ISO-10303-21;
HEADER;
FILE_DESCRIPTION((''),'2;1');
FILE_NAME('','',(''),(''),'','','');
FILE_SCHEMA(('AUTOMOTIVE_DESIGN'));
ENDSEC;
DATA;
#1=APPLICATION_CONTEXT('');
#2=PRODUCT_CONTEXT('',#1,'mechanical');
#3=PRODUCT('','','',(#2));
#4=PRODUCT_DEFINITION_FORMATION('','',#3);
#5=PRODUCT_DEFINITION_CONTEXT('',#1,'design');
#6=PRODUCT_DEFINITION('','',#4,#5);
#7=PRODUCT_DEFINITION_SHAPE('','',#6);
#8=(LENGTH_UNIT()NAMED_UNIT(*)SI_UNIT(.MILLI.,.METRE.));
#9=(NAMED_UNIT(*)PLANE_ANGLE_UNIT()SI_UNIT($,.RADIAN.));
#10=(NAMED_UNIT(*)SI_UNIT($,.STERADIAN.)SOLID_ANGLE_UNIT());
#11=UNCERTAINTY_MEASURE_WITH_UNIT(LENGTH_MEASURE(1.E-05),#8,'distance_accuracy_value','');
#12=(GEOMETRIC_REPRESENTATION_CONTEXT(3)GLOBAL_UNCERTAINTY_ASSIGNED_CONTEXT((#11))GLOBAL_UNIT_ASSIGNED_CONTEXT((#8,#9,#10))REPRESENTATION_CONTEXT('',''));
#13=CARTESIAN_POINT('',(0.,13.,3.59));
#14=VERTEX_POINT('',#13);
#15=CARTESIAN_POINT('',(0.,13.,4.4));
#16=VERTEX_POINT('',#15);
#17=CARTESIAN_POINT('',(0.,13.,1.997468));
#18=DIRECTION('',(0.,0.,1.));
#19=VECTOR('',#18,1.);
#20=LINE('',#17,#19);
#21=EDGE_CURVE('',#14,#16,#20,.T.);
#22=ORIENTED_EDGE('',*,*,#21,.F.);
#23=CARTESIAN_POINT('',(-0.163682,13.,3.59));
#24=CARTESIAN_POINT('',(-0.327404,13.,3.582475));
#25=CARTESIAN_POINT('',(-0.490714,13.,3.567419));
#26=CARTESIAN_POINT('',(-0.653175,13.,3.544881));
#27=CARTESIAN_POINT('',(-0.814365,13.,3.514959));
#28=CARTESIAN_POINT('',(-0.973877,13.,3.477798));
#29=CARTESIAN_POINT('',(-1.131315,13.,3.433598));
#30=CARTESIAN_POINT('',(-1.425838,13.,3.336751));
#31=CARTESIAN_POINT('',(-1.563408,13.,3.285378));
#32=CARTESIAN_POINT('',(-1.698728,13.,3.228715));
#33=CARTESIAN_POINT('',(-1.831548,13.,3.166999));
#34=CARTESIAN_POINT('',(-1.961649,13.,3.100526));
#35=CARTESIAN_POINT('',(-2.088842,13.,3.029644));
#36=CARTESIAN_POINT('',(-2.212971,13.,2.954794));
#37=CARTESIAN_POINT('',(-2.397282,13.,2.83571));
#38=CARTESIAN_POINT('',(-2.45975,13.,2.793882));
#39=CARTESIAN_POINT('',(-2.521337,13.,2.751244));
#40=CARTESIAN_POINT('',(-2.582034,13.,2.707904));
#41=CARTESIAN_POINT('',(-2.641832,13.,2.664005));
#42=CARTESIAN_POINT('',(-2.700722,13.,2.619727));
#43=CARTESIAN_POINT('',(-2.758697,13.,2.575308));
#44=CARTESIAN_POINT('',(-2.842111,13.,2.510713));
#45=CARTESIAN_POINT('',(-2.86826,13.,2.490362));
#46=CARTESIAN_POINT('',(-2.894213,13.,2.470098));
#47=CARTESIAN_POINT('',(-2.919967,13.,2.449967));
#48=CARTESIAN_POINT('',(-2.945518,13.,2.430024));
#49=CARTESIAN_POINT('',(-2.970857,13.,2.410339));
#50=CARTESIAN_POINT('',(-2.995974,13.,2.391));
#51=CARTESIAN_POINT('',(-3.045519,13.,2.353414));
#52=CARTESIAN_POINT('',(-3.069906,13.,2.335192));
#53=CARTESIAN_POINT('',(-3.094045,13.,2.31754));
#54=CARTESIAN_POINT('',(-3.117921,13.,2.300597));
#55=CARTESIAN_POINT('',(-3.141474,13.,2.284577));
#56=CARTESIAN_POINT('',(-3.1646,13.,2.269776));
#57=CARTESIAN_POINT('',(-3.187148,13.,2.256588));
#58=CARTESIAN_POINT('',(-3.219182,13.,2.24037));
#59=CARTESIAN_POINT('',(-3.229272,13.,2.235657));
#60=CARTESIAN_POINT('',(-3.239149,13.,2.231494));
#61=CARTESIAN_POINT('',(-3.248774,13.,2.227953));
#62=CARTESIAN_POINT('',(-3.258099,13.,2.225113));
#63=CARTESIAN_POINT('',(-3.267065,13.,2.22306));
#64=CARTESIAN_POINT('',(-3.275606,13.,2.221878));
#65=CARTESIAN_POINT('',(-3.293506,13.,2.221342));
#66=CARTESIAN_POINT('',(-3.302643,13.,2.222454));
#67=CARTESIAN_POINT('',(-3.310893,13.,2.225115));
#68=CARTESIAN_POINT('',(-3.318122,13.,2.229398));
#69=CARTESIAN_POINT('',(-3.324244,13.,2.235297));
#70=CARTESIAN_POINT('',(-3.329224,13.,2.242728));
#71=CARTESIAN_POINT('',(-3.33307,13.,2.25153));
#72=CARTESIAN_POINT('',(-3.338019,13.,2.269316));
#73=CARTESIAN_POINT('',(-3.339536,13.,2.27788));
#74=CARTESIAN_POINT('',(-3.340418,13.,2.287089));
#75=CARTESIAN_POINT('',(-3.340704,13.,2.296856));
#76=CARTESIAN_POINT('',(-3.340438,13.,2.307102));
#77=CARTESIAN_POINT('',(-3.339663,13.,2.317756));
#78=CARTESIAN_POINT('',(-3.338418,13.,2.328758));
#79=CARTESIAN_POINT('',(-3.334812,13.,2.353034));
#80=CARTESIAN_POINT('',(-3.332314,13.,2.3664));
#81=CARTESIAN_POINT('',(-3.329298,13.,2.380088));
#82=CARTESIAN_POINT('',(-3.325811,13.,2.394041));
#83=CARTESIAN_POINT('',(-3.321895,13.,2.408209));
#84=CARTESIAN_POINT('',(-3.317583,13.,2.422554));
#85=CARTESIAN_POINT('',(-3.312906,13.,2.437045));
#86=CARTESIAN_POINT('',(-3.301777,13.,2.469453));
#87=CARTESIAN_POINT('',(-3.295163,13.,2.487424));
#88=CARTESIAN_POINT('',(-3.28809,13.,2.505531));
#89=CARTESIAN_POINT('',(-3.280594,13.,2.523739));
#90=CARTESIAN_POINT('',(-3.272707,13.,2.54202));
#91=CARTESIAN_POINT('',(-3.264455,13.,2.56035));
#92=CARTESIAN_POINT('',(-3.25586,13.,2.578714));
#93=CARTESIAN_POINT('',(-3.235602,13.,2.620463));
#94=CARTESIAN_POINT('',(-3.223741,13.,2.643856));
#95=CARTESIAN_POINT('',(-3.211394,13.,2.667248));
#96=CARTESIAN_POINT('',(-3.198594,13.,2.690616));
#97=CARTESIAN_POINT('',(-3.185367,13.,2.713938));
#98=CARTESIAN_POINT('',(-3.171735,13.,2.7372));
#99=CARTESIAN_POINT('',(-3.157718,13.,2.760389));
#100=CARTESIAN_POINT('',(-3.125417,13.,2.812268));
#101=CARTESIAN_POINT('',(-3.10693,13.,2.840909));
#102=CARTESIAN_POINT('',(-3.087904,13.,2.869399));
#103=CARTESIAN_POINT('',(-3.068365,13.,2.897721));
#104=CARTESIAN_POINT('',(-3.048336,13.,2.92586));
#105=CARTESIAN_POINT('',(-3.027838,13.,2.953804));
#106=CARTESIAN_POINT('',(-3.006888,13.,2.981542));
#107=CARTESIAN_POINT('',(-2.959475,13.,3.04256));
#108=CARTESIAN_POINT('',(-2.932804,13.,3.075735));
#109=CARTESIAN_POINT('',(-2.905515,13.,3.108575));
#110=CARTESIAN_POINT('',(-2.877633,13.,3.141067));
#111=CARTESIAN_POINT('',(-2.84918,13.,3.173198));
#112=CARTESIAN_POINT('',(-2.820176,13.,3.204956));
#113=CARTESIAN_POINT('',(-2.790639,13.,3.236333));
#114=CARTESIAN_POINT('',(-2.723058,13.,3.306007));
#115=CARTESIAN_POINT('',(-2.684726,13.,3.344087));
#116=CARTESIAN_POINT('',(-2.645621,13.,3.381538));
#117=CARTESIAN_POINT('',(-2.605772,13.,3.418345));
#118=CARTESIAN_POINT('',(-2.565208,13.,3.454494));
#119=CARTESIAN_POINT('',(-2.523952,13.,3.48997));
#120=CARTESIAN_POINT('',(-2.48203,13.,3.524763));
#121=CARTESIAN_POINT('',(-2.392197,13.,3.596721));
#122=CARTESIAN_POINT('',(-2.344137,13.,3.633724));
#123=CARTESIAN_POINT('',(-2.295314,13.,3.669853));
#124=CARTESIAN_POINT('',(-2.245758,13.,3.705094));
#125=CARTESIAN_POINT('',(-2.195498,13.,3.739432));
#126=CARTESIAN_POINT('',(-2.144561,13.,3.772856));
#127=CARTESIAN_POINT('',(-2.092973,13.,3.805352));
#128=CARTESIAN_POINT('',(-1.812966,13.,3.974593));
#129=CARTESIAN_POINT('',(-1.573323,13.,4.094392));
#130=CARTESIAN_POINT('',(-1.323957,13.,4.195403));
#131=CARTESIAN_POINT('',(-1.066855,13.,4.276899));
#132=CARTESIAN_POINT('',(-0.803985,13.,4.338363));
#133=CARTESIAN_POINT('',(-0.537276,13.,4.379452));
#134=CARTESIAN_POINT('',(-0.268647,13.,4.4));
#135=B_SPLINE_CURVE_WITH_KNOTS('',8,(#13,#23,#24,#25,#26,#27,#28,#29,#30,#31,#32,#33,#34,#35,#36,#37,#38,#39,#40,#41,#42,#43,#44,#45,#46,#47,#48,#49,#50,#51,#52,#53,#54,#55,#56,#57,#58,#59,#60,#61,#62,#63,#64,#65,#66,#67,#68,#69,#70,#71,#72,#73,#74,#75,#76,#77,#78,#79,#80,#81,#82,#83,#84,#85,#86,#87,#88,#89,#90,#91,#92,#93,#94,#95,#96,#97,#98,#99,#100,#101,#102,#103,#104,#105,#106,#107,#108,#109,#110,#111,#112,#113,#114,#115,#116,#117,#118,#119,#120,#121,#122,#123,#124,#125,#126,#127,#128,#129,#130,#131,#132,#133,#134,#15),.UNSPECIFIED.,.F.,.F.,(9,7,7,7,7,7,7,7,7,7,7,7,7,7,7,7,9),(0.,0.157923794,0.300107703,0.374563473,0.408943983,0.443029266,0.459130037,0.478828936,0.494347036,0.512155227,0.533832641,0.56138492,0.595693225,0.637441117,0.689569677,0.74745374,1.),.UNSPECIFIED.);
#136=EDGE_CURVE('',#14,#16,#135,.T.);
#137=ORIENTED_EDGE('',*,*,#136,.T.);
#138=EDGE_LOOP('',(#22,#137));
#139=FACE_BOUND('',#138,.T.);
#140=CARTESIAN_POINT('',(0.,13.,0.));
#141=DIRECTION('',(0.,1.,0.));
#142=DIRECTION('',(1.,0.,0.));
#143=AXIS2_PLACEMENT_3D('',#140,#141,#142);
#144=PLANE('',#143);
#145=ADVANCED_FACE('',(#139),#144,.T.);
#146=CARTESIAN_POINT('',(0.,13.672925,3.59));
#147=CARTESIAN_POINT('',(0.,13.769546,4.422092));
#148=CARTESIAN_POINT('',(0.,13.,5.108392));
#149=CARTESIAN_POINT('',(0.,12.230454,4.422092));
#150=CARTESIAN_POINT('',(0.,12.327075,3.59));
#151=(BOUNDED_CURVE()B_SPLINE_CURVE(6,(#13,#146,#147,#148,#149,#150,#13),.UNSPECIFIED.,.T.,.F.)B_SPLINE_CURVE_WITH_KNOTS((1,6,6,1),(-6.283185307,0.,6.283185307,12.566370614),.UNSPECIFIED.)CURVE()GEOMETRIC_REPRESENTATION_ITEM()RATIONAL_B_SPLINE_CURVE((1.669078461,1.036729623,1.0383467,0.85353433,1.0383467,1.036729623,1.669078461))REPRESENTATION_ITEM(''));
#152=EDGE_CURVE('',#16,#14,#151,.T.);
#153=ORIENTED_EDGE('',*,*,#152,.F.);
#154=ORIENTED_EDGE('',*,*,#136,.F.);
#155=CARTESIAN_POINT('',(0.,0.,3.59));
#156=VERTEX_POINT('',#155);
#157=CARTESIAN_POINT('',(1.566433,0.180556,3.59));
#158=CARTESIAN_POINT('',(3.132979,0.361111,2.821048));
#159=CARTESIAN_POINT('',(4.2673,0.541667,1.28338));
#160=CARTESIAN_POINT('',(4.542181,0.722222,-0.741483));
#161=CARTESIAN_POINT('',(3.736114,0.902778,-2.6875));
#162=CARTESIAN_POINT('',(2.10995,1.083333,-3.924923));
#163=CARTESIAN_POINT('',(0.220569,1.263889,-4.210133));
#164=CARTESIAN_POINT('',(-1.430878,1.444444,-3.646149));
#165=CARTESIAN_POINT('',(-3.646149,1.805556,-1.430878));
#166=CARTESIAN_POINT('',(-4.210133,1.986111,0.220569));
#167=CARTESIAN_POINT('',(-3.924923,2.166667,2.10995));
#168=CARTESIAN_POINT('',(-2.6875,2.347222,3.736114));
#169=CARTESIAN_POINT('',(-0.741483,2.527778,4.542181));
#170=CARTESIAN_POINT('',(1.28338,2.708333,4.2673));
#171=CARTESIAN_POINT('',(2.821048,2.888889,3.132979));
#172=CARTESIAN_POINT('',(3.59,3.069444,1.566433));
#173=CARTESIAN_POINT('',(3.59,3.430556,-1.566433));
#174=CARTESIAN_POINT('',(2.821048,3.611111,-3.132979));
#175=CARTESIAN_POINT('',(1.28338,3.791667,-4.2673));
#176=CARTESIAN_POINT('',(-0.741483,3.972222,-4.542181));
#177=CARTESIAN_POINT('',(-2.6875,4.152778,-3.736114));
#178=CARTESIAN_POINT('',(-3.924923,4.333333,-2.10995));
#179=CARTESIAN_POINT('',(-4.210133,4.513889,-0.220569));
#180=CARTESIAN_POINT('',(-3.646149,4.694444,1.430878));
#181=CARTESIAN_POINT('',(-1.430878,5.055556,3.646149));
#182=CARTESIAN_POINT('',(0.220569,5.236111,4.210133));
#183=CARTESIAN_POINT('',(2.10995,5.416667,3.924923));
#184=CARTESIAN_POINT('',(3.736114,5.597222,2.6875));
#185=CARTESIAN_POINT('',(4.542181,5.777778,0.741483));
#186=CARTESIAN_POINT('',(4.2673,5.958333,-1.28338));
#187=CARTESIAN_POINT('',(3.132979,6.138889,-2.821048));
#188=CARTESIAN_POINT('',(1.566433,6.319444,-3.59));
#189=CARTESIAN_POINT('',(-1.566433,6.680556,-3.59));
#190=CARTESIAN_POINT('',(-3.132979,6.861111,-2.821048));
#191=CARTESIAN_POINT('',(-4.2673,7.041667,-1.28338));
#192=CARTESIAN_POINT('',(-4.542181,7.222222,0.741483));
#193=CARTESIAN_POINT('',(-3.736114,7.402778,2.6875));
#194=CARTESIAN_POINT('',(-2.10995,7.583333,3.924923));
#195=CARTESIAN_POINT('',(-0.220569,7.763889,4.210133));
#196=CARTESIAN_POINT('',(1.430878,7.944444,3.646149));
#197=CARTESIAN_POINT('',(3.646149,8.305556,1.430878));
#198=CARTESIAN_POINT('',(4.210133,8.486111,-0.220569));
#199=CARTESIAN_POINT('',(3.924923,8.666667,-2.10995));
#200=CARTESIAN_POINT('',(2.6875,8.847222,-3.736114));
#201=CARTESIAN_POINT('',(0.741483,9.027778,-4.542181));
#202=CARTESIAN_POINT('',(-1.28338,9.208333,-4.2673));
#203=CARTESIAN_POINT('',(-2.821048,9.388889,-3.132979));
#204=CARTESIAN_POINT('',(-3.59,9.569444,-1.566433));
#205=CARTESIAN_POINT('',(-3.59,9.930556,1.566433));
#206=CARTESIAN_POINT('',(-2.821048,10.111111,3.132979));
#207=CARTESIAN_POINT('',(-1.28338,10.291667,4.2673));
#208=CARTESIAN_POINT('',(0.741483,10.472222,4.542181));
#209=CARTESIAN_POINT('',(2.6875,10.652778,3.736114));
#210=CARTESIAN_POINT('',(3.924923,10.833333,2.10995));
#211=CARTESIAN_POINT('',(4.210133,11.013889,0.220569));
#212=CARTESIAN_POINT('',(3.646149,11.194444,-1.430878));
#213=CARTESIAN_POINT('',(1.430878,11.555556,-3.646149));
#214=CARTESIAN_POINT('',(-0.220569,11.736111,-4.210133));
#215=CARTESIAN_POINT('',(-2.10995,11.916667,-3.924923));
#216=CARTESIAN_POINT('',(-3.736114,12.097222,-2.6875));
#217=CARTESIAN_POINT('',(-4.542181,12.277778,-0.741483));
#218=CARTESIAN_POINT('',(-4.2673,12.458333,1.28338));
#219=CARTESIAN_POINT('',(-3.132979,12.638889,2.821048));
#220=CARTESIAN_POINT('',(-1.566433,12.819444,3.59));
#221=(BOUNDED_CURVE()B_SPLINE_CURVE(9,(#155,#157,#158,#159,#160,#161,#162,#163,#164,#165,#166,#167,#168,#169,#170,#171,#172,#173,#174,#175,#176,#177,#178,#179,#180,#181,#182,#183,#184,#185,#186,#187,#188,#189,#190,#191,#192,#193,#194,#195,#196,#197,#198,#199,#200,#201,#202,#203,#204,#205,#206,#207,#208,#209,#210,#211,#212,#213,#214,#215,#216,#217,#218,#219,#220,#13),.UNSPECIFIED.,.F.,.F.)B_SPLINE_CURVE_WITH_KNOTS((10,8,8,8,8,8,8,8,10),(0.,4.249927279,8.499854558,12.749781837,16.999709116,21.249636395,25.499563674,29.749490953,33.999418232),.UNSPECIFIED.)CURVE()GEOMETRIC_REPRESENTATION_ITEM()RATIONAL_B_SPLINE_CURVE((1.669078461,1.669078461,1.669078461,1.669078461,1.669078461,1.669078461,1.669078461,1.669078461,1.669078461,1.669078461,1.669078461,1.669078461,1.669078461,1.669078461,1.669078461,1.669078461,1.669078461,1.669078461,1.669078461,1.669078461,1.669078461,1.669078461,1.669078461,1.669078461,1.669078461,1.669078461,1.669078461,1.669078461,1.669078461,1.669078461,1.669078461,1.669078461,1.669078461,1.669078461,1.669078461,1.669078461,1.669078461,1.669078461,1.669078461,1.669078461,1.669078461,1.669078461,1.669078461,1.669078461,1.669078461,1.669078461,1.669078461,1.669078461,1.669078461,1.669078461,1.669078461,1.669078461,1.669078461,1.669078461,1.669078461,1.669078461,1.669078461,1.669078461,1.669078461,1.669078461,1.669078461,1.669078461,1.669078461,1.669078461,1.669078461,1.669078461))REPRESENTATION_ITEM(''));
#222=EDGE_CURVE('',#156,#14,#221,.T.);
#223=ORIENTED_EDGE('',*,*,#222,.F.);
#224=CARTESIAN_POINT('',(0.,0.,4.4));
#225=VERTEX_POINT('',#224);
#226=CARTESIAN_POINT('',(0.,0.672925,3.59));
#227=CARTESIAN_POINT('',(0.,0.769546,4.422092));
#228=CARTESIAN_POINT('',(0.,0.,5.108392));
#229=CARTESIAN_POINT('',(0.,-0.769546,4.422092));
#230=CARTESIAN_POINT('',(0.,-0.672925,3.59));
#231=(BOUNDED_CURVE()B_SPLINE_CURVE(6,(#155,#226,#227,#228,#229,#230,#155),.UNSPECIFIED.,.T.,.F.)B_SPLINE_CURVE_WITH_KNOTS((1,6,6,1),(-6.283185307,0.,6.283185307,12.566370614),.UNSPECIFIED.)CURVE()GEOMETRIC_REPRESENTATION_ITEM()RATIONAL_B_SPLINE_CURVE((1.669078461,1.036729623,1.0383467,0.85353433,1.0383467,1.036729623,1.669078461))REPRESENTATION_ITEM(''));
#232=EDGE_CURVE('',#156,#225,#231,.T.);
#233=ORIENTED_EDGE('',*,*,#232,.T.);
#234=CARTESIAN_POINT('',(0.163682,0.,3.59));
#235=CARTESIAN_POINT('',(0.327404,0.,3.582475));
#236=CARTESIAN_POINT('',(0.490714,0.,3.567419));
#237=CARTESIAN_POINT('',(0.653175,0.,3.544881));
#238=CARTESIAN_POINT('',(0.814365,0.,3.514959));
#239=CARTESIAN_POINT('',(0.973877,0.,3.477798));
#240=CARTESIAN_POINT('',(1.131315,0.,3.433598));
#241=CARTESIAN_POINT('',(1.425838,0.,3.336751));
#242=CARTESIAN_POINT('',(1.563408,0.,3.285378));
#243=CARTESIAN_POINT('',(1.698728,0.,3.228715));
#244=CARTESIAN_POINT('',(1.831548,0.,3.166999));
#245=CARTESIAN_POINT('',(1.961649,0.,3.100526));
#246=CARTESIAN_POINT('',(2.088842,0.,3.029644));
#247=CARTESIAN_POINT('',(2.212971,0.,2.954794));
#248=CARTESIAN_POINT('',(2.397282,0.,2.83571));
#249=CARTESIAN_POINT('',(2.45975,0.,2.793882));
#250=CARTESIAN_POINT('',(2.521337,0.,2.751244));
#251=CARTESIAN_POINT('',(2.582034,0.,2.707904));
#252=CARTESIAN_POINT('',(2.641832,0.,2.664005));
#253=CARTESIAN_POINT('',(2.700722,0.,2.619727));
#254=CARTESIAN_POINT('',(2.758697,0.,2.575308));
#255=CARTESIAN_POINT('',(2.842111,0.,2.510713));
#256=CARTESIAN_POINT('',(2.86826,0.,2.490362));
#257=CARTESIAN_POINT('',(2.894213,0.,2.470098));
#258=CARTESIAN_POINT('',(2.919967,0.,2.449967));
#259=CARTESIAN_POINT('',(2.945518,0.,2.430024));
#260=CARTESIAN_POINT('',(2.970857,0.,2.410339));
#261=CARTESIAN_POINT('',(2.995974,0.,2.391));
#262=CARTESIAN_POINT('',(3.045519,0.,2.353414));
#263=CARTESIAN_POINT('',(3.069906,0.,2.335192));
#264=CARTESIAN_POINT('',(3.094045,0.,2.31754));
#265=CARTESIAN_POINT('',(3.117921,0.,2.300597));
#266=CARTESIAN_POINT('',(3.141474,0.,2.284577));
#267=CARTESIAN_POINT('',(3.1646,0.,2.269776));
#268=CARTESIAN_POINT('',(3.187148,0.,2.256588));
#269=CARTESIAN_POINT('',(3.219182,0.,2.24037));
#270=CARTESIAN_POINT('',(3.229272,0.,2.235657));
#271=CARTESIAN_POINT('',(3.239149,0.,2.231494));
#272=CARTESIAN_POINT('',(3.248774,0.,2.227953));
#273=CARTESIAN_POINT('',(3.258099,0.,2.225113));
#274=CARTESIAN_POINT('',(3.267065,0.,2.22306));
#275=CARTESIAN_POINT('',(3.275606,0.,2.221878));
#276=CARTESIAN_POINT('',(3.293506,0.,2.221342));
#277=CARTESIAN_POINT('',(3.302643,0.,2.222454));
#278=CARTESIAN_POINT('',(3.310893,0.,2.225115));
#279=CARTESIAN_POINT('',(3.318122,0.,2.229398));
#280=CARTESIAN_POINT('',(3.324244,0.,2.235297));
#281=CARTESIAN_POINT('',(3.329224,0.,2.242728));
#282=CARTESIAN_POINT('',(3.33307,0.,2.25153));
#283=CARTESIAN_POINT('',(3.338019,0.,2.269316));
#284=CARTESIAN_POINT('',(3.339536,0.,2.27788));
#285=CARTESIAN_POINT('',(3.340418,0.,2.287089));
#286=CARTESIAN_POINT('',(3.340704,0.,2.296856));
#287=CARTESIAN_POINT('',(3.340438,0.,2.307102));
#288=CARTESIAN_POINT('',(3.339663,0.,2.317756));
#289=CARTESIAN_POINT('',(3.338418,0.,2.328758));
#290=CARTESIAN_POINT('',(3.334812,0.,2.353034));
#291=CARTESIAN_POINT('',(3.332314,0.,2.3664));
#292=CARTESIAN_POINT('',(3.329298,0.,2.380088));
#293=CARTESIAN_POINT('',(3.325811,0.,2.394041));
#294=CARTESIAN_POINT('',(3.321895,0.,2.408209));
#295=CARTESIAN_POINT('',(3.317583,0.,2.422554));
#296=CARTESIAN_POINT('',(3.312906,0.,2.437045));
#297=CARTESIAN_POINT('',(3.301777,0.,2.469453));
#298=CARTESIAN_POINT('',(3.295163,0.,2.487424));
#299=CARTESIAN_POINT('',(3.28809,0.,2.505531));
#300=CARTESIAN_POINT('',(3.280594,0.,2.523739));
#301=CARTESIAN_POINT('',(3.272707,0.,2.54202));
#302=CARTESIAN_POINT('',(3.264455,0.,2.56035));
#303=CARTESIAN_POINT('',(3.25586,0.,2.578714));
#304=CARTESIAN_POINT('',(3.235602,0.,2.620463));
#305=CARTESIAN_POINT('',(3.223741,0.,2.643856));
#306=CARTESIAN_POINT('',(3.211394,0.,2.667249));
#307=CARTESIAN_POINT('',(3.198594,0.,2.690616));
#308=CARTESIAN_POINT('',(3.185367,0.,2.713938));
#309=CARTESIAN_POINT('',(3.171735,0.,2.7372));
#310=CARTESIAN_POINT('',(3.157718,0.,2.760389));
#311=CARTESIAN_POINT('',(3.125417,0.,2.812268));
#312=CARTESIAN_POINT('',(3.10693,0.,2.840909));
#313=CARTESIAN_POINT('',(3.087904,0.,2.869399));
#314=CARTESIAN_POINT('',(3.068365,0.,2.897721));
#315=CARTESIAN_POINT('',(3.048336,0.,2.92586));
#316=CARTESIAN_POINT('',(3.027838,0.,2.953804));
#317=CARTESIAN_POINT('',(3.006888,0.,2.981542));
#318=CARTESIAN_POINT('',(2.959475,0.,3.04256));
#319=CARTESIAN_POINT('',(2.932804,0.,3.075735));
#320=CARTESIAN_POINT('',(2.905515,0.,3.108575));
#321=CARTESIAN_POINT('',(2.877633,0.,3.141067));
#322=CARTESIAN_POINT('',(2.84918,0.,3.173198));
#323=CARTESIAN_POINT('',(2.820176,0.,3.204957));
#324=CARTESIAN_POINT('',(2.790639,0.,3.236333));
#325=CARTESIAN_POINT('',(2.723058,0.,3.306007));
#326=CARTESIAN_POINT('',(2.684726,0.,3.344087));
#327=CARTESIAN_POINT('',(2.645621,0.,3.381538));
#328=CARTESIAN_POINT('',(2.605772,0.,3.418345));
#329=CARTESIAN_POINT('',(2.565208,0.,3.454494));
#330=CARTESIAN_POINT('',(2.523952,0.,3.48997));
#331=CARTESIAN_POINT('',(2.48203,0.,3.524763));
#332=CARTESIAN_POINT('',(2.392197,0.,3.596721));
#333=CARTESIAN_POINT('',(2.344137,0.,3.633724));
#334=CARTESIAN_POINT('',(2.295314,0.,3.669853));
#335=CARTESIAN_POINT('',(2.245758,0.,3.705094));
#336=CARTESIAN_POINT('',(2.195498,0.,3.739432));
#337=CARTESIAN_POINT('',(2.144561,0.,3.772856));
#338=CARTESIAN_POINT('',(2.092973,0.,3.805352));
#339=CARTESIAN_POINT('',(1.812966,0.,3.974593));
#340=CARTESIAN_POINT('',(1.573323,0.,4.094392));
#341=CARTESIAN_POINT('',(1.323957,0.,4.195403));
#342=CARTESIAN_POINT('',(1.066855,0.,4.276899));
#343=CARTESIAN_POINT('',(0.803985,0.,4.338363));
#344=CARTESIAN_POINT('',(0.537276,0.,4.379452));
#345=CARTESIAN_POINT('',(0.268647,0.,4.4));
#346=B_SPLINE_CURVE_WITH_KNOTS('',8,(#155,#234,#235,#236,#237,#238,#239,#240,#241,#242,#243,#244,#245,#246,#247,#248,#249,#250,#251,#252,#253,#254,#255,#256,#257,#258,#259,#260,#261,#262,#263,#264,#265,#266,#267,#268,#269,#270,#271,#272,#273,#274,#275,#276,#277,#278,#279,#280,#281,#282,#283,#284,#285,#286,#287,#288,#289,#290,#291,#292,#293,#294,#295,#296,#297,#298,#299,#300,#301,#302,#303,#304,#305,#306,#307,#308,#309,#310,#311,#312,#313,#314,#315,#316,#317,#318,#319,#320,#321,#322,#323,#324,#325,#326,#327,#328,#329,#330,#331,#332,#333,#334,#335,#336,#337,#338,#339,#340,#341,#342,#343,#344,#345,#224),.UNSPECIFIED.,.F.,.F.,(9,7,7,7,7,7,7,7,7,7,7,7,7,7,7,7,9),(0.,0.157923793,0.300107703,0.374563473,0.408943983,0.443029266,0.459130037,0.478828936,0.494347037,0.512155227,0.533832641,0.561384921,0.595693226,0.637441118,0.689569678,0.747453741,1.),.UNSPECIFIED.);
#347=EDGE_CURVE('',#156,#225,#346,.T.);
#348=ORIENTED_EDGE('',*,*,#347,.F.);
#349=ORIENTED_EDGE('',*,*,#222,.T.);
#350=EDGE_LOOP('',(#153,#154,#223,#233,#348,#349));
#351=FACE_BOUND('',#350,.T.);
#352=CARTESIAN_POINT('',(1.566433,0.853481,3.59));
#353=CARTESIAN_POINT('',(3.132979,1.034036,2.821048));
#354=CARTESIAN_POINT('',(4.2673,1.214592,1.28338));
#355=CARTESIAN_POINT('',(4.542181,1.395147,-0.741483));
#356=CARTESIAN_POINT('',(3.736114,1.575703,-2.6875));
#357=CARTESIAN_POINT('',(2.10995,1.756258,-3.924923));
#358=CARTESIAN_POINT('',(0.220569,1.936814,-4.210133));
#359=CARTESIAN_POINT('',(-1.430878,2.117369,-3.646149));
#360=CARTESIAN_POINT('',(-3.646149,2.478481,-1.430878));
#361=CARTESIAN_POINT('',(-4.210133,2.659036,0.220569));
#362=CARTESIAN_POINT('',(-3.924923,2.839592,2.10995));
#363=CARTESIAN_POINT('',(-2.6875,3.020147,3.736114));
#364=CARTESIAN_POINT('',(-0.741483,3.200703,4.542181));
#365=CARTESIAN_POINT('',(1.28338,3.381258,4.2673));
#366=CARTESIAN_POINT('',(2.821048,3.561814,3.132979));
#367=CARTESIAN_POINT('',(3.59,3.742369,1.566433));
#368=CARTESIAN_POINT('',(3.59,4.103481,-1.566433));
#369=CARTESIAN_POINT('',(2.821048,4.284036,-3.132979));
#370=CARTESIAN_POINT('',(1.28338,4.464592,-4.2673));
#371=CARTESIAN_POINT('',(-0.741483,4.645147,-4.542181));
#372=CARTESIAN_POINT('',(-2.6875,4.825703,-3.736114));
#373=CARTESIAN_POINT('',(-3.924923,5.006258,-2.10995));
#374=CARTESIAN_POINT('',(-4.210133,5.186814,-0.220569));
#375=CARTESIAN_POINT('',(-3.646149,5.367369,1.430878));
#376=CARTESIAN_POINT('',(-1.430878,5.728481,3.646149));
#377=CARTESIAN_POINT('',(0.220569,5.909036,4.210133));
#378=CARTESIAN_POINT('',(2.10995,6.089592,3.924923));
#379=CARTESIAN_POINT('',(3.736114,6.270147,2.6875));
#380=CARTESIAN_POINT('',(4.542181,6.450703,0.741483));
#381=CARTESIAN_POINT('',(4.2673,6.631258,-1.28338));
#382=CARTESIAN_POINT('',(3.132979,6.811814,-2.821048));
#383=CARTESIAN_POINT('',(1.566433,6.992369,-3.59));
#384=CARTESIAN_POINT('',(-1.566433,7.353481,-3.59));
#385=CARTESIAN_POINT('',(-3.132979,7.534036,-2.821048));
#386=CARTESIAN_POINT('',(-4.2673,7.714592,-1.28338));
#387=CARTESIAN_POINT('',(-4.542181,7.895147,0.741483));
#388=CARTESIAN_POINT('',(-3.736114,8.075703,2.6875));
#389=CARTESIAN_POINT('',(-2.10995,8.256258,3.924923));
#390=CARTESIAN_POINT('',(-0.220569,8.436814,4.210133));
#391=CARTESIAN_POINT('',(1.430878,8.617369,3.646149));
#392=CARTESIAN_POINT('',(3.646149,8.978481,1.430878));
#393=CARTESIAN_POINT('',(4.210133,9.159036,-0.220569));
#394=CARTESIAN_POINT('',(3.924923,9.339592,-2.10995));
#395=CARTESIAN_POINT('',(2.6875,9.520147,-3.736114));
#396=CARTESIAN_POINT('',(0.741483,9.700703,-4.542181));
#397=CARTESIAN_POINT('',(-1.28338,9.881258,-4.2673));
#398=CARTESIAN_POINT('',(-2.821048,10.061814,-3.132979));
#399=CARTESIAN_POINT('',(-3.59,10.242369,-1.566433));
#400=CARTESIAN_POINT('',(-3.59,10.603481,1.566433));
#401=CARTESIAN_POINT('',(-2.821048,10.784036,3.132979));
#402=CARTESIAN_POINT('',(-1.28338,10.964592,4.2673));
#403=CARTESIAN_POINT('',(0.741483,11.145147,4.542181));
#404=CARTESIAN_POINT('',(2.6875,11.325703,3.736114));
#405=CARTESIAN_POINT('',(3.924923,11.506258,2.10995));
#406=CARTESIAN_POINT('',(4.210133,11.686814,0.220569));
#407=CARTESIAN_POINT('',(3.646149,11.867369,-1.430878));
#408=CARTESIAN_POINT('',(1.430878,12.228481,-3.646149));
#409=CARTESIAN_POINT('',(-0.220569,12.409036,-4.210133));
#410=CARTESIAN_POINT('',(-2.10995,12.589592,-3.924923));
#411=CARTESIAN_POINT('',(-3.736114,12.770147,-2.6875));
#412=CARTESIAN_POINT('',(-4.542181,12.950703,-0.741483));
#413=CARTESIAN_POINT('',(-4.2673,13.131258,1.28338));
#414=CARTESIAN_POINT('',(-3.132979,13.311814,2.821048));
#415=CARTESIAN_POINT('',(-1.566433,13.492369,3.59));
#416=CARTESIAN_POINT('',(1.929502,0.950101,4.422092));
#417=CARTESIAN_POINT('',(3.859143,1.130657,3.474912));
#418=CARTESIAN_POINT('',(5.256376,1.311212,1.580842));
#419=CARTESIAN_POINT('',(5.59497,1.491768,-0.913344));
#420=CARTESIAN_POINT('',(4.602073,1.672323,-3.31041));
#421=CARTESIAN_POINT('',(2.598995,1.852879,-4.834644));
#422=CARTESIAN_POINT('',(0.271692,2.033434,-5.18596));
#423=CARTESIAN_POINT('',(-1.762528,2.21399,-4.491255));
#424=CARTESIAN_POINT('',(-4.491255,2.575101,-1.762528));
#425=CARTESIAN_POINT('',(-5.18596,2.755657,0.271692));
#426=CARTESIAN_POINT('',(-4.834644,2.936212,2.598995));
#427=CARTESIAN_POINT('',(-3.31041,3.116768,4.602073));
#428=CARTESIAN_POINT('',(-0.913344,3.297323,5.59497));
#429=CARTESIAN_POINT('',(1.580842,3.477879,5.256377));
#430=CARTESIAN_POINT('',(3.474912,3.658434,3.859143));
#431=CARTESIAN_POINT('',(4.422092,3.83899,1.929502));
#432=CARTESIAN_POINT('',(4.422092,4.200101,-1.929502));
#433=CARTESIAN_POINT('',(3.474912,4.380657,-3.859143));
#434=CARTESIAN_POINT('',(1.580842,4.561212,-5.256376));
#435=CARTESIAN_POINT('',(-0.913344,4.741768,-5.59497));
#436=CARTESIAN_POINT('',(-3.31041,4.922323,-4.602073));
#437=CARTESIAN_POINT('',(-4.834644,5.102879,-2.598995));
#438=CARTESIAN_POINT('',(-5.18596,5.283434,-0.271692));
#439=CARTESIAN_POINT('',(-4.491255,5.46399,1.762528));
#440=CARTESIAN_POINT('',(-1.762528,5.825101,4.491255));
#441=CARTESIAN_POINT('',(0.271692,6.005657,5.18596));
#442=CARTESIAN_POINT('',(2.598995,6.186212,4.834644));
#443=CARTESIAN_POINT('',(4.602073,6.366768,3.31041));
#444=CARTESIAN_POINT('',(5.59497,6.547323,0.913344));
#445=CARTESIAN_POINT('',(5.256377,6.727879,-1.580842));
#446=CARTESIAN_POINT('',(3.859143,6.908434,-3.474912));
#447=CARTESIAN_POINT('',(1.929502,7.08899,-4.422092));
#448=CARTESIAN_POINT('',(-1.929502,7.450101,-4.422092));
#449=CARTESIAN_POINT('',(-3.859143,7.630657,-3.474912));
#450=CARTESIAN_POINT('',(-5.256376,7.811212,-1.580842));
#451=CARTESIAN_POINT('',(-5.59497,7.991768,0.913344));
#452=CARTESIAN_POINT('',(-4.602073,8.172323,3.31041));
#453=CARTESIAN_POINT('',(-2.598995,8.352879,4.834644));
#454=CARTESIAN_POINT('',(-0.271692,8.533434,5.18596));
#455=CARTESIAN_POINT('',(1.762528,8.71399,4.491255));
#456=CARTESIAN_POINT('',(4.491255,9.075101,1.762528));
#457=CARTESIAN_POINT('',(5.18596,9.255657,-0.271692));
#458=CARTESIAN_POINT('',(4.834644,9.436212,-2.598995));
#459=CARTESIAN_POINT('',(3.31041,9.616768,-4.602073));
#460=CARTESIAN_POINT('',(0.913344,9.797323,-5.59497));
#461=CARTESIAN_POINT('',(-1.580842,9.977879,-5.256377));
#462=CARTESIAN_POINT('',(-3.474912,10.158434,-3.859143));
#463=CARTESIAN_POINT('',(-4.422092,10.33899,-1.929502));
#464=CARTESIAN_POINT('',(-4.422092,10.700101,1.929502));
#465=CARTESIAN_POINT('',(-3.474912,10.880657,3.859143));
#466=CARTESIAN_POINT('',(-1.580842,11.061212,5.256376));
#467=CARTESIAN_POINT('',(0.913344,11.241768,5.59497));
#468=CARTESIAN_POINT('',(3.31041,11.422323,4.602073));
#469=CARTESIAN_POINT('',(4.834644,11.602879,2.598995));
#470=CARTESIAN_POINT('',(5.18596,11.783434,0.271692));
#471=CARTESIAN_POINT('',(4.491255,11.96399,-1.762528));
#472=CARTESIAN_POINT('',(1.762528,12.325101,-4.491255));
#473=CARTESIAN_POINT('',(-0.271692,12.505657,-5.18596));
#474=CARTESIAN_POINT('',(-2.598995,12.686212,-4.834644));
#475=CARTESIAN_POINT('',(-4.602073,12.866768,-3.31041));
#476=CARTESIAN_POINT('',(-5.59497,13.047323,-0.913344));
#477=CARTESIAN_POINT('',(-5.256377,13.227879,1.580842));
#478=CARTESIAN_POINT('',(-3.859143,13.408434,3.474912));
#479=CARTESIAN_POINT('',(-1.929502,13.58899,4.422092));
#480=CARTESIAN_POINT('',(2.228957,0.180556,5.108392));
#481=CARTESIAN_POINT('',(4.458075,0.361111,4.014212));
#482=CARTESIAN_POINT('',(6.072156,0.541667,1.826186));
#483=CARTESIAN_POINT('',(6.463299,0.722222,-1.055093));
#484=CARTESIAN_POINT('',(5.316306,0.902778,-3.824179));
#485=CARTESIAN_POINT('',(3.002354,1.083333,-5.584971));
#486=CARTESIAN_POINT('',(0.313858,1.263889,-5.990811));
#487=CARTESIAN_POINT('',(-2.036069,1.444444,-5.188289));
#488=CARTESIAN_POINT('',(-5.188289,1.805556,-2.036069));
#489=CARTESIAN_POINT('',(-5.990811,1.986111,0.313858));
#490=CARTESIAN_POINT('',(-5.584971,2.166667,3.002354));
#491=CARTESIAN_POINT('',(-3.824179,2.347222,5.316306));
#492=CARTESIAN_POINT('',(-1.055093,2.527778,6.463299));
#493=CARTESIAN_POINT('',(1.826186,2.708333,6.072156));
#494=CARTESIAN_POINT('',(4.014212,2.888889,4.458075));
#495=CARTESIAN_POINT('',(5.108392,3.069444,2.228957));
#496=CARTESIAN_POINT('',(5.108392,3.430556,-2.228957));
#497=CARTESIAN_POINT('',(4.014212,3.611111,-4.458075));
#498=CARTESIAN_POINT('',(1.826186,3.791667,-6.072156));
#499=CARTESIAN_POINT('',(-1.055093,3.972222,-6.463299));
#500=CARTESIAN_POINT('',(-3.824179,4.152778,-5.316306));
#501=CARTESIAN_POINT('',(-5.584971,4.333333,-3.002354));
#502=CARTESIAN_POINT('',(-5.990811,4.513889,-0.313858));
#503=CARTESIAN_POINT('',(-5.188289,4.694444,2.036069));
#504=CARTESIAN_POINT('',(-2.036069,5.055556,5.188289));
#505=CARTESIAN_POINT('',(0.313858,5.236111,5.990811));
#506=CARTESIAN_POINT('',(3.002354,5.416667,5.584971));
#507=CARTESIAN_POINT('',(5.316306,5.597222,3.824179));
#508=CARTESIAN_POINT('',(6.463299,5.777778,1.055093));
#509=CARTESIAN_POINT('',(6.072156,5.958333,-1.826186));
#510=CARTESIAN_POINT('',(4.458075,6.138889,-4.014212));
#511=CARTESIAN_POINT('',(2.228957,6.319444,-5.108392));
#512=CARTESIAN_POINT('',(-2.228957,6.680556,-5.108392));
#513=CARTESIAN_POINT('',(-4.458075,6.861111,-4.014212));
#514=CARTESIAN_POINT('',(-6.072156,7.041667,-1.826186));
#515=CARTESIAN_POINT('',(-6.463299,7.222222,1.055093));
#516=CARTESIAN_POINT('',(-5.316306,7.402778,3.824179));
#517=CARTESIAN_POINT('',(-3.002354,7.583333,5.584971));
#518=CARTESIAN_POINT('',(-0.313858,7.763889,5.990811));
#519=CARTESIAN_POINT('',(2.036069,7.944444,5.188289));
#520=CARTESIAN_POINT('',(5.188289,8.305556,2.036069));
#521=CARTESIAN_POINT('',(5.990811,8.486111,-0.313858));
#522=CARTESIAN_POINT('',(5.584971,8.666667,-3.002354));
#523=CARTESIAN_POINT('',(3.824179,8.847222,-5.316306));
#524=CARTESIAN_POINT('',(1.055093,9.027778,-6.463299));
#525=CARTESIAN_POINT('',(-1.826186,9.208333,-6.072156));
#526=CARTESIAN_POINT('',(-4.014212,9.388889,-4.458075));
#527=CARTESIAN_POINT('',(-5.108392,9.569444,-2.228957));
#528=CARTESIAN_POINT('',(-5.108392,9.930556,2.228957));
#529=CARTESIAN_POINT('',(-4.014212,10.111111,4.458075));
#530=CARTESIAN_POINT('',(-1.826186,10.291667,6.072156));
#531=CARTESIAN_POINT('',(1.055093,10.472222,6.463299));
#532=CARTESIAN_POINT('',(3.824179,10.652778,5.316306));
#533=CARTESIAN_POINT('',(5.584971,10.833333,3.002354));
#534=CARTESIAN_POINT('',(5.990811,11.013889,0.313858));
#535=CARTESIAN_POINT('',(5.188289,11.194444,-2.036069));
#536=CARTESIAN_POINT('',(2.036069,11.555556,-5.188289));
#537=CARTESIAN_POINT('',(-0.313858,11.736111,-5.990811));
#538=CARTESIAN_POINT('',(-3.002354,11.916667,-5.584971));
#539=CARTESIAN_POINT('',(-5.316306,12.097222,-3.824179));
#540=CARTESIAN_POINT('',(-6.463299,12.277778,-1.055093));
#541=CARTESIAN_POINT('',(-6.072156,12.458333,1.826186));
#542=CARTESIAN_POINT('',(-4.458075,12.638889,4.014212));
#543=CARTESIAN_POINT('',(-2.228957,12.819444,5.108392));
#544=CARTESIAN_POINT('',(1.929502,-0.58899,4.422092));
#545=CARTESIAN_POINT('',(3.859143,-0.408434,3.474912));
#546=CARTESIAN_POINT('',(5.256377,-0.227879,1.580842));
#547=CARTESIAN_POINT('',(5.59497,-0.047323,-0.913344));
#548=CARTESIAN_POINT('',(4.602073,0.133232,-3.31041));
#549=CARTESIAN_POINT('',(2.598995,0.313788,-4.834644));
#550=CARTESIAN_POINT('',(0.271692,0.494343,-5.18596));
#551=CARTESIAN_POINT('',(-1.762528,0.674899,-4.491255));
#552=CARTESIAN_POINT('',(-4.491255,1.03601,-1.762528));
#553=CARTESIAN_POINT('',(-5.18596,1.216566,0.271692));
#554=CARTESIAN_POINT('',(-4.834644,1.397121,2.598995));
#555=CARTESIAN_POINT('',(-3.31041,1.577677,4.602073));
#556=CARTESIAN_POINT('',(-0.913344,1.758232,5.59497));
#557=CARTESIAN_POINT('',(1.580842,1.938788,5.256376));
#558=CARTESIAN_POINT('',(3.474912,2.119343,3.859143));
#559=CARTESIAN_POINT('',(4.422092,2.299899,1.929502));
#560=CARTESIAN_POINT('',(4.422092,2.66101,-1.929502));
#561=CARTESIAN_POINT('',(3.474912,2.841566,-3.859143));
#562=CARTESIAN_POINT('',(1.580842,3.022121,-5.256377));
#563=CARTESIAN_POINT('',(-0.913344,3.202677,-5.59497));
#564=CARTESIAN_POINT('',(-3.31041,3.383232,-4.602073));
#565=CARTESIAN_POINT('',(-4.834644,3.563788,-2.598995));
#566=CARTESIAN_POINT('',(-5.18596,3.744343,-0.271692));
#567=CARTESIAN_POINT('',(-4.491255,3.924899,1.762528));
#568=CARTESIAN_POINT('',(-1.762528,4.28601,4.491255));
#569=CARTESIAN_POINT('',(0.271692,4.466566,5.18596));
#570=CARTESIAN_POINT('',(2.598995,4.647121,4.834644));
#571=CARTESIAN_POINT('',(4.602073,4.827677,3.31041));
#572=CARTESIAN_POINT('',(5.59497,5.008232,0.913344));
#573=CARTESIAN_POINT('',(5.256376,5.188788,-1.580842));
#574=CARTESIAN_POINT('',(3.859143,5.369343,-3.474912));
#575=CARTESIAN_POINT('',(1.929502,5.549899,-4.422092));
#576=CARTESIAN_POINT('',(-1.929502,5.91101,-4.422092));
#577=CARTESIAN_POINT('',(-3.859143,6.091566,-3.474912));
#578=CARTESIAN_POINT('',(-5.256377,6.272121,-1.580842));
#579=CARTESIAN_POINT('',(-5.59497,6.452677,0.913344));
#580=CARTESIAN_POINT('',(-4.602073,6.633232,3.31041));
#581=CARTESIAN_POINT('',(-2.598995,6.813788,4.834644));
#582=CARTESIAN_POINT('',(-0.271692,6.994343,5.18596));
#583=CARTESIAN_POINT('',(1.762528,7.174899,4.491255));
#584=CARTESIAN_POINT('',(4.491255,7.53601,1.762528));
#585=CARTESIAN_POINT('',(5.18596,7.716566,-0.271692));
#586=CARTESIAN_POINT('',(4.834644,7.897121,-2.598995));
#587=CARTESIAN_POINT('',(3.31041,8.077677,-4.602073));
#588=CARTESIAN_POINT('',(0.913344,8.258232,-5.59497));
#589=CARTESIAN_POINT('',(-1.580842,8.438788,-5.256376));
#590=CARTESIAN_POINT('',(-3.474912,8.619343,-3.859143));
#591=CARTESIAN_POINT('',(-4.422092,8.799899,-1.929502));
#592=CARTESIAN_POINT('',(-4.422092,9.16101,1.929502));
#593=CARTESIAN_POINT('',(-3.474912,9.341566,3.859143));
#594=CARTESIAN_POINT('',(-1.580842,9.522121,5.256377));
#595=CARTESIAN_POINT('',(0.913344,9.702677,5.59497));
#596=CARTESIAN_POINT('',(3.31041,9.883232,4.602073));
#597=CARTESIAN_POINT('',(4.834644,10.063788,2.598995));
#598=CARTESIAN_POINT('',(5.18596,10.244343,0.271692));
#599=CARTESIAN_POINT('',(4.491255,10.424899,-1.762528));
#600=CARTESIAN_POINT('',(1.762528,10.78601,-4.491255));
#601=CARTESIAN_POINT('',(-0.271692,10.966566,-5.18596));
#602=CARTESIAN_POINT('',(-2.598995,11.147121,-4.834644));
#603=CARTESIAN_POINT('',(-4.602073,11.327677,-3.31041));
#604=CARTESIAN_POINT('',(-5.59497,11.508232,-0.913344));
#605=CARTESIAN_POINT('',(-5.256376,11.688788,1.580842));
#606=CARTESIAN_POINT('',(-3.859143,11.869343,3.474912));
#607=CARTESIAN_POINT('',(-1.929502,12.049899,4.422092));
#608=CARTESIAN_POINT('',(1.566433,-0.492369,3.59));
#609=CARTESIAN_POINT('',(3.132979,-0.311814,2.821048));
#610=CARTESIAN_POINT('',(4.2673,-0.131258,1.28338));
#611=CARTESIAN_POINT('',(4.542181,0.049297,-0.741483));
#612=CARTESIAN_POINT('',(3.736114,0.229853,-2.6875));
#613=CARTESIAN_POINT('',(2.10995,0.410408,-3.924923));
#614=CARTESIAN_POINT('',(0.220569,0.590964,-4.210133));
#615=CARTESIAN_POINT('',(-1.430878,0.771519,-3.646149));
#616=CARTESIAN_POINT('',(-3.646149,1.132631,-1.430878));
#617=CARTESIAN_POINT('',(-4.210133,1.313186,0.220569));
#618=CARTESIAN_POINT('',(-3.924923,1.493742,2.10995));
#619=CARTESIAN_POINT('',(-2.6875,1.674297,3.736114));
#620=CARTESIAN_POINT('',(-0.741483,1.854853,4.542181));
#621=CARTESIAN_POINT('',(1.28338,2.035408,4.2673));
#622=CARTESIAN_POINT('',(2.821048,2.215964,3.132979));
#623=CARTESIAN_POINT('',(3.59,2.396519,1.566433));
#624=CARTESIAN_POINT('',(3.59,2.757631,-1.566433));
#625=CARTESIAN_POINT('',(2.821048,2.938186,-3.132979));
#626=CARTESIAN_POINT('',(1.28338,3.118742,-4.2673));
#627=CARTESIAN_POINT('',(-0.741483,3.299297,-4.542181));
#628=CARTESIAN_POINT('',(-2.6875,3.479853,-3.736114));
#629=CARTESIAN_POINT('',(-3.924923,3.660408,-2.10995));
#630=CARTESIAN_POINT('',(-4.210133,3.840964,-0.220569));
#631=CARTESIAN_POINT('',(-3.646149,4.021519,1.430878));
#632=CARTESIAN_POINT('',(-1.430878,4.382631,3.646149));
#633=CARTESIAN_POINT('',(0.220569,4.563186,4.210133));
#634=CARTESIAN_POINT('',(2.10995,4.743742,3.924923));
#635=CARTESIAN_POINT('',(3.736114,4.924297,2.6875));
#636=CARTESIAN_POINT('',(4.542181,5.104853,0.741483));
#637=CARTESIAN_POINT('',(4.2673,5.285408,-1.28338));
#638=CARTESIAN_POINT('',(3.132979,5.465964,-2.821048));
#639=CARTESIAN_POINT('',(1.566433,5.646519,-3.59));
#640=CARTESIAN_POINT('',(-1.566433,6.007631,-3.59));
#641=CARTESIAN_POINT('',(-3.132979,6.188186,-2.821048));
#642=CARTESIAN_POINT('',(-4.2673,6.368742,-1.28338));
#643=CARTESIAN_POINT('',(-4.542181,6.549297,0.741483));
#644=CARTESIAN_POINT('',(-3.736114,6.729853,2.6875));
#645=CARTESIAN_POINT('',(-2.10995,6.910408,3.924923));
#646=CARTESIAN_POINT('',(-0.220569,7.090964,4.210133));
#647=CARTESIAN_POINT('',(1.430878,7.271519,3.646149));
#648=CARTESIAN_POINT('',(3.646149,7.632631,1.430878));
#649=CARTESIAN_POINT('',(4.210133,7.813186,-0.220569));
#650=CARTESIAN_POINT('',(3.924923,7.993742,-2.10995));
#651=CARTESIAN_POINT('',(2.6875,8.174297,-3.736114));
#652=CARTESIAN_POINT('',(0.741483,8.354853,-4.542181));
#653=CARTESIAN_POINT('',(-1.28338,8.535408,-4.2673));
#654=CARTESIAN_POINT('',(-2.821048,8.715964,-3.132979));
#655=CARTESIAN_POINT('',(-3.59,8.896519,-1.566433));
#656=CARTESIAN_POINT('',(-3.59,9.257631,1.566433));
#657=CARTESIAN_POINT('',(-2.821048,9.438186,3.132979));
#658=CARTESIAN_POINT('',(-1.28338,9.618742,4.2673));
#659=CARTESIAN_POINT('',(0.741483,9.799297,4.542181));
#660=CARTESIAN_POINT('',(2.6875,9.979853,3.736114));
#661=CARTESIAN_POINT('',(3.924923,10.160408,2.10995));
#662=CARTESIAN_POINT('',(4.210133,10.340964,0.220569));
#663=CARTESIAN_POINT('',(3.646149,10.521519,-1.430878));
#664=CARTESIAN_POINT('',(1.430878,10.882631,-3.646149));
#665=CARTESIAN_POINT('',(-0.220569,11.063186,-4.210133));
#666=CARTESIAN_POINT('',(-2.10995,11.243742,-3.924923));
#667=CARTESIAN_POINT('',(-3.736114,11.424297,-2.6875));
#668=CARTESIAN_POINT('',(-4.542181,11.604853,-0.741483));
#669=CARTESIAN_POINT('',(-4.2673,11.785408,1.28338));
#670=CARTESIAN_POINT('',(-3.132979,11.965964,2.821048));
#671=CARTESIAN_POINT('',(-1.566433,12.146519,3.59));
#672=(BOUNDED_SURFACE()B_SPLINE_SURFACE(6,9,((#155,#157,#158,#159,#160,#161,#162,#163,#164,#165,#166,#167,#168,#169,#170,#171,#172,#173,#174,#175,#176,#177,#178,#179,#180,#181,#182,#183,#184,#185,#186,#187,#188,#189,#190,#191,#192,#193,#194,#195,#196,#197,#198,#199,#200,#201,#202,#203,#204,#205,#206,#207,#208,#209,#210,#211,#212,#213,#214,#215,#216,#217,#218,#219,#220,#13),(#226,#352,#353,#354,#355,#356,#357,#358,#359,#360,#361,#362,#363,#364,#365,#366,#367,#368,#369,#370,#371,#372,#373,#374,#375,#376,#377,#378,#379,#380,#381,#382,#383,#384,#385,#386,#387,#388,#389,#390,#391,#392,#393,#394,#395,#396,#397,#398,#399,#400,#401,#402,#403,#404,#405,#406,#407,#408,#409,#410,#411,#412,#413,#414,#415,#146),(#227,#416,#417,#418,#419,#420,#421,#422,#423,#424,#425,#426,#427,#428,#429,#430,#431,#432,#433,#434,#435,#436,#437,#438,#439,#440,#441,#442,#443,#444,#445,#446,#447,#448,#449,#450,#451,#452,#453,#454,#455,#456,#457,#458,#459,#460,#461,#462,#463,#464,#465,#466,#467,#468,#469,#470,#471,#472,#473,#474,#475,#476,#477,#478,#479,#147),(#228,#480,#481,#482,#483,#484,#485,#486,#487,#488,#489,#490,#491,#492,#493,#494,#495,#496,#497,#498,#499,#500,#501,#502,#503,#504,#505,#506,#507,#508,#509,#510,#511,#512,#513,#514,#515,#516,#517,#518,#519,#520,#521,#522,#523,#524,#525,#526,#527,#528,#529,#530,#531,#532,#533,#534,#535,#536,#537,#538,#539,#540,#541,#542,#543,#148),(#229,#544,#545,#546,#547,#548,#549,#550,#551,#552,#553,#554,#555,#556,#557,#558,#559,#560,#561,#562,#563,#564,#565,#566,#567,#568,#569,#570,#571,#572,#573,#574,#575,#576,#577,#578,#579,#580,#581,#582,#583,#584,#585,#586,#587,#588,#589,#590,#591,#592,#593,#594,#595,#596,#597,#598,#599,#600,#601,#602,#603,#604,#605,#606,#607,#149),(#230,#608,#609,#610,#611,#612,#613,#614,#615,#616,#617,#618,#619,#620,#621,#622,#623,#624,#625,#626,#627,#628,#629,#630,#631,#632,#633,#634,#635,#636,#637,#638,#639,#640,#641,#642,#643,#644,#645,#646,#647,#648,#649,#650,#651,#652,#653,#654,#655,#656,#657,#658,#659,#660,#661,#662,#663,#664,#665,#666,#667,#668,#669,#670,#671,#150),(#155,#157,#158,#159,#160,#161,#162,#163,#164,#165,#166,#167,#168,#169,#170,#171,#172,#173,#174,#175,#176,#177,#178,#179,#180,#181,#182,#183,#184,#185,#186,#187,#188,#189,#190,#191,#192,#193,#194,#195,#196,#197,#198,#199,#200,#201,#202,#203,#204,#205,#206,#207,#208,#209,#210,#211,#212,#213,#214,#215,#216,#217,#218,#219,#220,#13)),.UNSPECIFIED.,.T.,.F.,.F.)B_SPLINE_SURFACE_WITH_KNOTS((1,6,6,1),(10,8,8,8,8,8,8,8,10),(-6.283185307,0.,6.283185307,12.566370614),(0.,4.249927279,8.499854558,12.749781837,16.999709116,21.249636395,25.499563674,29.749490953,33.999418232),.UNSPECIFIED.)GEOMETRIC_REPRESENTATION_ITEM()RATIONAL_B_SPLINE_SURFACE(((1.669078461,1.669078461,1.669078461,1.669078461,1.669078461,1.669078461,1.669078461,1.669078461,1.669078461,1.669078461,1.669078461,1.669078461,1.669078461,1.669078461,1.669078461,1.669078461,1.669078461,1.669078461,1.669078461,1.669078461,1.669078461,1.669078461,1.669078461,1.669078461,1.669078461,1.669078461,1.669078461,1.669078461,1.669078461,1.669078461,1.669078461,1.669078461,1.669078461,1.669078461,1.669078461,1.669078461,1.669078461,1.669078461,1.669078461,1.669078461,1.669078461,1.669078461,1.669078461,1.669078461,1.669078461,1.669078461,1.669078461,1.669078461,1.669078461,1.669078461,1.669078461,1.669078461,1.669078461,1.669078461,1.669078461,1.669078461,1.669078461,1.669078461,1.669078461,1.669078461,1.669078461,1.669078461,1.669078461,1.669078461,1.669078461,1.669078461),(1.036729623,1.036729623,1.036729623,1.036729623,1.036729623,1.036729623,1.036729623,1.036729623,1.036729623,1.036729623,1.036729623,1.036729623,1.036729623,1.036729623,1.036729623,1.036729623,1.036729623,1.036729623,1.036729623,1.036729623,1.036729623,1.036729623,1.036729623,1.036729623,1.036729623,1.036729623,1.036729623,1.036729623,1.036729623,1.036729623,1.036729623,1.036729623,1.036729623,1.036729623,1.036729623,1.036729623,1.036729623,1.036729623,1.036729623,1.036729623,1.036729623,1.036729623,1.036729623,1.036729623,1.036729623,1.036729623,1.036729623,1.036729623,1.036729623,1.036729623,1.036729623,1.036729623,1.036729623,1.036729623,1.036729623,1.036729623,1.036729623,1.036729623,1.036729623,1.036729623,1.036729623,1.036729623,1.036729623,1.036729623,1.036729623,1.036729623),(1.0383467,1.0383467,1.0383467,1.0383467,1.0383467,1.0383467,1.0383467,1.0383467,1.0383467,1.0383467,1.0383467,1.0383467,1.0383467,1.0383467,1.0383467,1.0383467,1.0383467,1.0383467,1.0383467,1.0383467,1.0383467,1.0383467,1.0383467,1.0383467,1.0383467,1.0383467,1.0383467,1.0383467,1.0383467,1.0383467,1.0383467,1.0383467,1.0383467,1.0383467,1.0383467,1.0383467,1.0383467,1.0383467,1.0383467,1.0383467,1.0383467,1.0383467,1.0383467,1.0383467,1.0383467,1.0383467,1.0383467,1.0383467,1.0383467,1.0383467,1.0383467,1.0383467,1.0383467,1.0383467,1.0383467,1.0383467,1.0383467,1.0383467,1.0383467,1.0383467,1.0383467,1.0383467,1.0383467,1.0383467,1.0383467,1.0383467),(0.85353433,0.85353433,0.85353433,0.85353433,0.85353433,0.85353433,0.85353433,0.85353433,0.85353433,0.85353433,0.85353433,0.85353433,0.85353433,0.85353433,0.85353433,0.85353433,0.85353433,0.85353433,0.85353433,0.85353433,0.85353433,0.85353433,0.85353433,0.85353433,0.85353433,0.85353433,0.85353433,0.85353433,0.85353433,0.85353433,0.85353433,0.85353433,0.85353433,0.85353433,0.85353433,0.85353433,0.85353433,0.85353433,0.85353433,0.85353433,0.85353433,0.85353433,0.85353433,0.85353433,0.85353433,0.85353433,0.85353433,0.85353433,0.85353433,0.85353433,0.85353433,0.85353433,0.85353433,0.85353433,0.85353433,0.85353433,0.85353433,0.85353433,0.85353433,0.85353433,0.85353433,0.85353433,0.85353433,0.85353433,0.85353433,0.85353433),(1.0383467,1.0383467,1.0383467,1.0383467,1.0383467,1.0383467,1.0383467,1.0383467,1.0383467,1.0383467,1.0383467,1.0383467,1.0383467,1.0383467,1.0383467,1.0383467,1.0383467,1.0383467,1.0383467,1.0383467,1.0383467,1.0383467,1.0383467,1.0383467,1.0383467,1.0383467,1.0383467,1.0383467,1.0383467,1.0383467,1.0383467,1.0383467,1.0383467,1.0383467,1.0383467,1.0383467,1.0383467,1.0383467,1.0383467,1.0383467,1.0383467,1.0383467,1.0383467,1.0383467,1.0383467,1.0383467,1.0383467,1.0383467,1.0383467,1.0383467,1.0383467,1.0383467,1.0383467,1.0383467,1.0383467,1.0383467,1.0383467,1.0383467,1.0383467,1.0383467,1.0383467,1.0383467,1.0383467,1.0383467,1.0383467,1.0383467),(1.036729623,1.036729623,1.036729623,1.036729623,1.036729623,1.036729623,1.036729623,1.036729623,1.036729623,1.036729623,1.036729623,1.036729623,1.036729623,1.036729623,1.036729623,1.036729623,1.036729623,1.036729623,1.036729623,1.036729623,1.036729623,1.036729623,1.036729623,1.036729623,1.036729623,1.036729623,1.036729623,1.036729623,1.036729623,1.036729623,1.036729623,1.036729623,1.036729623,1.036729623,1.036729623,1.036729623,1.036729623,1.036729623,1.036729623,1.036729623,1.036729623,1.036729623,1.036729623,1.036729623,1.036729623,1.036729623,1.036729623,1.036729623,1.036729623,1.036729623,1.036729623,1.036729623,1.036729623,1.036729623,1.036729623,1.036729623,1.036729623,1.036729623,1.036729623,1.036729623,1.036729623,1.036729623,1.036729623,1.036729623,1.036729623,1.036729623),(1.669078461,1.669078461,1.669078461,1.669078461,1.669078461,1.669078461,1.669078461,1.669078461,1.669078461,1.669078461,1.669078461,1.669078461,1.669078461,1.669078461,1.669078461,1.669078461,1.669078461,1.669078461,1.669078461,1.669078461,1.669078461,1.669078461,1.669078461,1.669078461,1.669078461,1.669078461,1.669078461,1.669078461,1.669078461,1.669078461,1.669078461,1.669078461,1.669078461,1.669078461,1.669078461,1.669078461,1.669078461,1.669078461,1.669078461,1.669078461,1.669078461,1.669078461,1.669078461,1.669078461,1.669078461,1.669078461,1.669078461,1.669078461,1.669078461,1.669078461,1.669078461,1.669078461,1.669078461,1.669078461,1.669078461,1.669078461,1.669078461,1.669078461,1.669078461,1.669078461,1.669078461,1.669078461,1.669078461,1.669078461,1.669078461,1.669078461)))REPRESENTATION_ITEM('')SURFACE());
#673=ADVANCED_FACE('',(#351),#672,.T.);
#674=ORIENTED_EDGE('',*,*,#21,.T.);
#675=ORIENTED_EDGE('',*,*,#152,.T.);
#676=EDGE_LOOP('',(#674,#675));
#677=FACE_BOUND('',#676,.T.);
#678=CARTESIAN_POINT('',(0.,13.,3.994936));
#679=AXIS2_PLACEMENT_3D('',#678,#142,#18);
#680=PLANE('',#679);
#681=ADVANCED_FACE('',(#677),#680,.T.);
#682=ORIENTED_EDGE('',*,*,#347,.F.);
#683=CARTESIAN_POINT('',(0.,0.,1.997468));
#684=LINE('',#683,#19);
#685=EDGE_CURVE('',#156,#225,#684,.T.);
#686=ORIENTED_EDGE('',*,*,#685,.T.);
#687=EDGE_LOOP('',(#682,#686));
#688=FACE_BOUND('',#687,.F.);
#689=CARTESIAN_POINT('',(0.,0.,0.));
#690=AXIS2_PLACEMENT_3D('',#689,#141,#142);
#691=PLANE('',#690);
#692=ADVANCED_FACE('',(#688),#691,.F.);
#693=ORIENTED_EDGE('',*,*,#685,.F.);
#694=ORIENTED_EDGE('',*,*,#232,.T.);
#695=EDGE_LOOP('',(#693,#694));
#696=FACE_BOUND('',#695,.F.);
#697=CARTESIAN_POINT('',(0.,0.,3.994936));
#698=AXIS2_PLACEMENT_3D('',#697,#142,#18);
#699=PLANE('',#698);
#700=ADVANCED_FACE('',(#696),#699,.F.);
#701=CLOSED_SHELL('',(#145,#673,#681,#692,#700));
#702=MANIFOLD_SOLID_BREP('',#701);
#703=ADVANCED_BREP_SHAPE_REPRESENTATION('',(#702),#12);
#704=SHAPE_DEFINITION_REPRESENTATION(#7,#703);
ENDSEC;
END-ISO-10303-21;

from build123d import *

# Parameters (mm, degrees)
SWEEP_1_PITCH  = 2.6
SWEEP_1_HEIGHT = 13
SWEEP_1_RADIUS = 4.4
SKETCH_2_R     = 0.405


with BuildPart() as part:
    # По траектории1: sweep along a helix
    with BuildLine() as sweep_1_path:
        Helix(SWEEP_1_PITCH, SWEEP_1_HEIGHT, SWEEP_1_RADIUS, center=(0, 0, 0), direction=(0, 1, 0))
    # Эскиз2 → По траектории1 (sweep)
    with BuildSketch(Plane(origin=(0, 0, 0), x_dir=(0, 0, -1), z_dir=(1, 0, 0))):
        with Locations((-3.995, 0)):
            Circle(SKETCH_2_R)
    sweep(path=sweep_1_path.line, is_frenet=True)

    # Surface Cut 1
    split(bisect_by=Plane(origin=(0, 0, 0), x_dir=(1, 0, 0), z_dir=(0, 1, 0)), keep=Keep.TOP)

    # Surface Cut 2
    split(bisect_by=Plane(origin=(0, 13, 0), x_dir=(1, 0, 0), z_dir=(0, 1, 0)), keep=Keep.BOTTOM)


solid = part.part
